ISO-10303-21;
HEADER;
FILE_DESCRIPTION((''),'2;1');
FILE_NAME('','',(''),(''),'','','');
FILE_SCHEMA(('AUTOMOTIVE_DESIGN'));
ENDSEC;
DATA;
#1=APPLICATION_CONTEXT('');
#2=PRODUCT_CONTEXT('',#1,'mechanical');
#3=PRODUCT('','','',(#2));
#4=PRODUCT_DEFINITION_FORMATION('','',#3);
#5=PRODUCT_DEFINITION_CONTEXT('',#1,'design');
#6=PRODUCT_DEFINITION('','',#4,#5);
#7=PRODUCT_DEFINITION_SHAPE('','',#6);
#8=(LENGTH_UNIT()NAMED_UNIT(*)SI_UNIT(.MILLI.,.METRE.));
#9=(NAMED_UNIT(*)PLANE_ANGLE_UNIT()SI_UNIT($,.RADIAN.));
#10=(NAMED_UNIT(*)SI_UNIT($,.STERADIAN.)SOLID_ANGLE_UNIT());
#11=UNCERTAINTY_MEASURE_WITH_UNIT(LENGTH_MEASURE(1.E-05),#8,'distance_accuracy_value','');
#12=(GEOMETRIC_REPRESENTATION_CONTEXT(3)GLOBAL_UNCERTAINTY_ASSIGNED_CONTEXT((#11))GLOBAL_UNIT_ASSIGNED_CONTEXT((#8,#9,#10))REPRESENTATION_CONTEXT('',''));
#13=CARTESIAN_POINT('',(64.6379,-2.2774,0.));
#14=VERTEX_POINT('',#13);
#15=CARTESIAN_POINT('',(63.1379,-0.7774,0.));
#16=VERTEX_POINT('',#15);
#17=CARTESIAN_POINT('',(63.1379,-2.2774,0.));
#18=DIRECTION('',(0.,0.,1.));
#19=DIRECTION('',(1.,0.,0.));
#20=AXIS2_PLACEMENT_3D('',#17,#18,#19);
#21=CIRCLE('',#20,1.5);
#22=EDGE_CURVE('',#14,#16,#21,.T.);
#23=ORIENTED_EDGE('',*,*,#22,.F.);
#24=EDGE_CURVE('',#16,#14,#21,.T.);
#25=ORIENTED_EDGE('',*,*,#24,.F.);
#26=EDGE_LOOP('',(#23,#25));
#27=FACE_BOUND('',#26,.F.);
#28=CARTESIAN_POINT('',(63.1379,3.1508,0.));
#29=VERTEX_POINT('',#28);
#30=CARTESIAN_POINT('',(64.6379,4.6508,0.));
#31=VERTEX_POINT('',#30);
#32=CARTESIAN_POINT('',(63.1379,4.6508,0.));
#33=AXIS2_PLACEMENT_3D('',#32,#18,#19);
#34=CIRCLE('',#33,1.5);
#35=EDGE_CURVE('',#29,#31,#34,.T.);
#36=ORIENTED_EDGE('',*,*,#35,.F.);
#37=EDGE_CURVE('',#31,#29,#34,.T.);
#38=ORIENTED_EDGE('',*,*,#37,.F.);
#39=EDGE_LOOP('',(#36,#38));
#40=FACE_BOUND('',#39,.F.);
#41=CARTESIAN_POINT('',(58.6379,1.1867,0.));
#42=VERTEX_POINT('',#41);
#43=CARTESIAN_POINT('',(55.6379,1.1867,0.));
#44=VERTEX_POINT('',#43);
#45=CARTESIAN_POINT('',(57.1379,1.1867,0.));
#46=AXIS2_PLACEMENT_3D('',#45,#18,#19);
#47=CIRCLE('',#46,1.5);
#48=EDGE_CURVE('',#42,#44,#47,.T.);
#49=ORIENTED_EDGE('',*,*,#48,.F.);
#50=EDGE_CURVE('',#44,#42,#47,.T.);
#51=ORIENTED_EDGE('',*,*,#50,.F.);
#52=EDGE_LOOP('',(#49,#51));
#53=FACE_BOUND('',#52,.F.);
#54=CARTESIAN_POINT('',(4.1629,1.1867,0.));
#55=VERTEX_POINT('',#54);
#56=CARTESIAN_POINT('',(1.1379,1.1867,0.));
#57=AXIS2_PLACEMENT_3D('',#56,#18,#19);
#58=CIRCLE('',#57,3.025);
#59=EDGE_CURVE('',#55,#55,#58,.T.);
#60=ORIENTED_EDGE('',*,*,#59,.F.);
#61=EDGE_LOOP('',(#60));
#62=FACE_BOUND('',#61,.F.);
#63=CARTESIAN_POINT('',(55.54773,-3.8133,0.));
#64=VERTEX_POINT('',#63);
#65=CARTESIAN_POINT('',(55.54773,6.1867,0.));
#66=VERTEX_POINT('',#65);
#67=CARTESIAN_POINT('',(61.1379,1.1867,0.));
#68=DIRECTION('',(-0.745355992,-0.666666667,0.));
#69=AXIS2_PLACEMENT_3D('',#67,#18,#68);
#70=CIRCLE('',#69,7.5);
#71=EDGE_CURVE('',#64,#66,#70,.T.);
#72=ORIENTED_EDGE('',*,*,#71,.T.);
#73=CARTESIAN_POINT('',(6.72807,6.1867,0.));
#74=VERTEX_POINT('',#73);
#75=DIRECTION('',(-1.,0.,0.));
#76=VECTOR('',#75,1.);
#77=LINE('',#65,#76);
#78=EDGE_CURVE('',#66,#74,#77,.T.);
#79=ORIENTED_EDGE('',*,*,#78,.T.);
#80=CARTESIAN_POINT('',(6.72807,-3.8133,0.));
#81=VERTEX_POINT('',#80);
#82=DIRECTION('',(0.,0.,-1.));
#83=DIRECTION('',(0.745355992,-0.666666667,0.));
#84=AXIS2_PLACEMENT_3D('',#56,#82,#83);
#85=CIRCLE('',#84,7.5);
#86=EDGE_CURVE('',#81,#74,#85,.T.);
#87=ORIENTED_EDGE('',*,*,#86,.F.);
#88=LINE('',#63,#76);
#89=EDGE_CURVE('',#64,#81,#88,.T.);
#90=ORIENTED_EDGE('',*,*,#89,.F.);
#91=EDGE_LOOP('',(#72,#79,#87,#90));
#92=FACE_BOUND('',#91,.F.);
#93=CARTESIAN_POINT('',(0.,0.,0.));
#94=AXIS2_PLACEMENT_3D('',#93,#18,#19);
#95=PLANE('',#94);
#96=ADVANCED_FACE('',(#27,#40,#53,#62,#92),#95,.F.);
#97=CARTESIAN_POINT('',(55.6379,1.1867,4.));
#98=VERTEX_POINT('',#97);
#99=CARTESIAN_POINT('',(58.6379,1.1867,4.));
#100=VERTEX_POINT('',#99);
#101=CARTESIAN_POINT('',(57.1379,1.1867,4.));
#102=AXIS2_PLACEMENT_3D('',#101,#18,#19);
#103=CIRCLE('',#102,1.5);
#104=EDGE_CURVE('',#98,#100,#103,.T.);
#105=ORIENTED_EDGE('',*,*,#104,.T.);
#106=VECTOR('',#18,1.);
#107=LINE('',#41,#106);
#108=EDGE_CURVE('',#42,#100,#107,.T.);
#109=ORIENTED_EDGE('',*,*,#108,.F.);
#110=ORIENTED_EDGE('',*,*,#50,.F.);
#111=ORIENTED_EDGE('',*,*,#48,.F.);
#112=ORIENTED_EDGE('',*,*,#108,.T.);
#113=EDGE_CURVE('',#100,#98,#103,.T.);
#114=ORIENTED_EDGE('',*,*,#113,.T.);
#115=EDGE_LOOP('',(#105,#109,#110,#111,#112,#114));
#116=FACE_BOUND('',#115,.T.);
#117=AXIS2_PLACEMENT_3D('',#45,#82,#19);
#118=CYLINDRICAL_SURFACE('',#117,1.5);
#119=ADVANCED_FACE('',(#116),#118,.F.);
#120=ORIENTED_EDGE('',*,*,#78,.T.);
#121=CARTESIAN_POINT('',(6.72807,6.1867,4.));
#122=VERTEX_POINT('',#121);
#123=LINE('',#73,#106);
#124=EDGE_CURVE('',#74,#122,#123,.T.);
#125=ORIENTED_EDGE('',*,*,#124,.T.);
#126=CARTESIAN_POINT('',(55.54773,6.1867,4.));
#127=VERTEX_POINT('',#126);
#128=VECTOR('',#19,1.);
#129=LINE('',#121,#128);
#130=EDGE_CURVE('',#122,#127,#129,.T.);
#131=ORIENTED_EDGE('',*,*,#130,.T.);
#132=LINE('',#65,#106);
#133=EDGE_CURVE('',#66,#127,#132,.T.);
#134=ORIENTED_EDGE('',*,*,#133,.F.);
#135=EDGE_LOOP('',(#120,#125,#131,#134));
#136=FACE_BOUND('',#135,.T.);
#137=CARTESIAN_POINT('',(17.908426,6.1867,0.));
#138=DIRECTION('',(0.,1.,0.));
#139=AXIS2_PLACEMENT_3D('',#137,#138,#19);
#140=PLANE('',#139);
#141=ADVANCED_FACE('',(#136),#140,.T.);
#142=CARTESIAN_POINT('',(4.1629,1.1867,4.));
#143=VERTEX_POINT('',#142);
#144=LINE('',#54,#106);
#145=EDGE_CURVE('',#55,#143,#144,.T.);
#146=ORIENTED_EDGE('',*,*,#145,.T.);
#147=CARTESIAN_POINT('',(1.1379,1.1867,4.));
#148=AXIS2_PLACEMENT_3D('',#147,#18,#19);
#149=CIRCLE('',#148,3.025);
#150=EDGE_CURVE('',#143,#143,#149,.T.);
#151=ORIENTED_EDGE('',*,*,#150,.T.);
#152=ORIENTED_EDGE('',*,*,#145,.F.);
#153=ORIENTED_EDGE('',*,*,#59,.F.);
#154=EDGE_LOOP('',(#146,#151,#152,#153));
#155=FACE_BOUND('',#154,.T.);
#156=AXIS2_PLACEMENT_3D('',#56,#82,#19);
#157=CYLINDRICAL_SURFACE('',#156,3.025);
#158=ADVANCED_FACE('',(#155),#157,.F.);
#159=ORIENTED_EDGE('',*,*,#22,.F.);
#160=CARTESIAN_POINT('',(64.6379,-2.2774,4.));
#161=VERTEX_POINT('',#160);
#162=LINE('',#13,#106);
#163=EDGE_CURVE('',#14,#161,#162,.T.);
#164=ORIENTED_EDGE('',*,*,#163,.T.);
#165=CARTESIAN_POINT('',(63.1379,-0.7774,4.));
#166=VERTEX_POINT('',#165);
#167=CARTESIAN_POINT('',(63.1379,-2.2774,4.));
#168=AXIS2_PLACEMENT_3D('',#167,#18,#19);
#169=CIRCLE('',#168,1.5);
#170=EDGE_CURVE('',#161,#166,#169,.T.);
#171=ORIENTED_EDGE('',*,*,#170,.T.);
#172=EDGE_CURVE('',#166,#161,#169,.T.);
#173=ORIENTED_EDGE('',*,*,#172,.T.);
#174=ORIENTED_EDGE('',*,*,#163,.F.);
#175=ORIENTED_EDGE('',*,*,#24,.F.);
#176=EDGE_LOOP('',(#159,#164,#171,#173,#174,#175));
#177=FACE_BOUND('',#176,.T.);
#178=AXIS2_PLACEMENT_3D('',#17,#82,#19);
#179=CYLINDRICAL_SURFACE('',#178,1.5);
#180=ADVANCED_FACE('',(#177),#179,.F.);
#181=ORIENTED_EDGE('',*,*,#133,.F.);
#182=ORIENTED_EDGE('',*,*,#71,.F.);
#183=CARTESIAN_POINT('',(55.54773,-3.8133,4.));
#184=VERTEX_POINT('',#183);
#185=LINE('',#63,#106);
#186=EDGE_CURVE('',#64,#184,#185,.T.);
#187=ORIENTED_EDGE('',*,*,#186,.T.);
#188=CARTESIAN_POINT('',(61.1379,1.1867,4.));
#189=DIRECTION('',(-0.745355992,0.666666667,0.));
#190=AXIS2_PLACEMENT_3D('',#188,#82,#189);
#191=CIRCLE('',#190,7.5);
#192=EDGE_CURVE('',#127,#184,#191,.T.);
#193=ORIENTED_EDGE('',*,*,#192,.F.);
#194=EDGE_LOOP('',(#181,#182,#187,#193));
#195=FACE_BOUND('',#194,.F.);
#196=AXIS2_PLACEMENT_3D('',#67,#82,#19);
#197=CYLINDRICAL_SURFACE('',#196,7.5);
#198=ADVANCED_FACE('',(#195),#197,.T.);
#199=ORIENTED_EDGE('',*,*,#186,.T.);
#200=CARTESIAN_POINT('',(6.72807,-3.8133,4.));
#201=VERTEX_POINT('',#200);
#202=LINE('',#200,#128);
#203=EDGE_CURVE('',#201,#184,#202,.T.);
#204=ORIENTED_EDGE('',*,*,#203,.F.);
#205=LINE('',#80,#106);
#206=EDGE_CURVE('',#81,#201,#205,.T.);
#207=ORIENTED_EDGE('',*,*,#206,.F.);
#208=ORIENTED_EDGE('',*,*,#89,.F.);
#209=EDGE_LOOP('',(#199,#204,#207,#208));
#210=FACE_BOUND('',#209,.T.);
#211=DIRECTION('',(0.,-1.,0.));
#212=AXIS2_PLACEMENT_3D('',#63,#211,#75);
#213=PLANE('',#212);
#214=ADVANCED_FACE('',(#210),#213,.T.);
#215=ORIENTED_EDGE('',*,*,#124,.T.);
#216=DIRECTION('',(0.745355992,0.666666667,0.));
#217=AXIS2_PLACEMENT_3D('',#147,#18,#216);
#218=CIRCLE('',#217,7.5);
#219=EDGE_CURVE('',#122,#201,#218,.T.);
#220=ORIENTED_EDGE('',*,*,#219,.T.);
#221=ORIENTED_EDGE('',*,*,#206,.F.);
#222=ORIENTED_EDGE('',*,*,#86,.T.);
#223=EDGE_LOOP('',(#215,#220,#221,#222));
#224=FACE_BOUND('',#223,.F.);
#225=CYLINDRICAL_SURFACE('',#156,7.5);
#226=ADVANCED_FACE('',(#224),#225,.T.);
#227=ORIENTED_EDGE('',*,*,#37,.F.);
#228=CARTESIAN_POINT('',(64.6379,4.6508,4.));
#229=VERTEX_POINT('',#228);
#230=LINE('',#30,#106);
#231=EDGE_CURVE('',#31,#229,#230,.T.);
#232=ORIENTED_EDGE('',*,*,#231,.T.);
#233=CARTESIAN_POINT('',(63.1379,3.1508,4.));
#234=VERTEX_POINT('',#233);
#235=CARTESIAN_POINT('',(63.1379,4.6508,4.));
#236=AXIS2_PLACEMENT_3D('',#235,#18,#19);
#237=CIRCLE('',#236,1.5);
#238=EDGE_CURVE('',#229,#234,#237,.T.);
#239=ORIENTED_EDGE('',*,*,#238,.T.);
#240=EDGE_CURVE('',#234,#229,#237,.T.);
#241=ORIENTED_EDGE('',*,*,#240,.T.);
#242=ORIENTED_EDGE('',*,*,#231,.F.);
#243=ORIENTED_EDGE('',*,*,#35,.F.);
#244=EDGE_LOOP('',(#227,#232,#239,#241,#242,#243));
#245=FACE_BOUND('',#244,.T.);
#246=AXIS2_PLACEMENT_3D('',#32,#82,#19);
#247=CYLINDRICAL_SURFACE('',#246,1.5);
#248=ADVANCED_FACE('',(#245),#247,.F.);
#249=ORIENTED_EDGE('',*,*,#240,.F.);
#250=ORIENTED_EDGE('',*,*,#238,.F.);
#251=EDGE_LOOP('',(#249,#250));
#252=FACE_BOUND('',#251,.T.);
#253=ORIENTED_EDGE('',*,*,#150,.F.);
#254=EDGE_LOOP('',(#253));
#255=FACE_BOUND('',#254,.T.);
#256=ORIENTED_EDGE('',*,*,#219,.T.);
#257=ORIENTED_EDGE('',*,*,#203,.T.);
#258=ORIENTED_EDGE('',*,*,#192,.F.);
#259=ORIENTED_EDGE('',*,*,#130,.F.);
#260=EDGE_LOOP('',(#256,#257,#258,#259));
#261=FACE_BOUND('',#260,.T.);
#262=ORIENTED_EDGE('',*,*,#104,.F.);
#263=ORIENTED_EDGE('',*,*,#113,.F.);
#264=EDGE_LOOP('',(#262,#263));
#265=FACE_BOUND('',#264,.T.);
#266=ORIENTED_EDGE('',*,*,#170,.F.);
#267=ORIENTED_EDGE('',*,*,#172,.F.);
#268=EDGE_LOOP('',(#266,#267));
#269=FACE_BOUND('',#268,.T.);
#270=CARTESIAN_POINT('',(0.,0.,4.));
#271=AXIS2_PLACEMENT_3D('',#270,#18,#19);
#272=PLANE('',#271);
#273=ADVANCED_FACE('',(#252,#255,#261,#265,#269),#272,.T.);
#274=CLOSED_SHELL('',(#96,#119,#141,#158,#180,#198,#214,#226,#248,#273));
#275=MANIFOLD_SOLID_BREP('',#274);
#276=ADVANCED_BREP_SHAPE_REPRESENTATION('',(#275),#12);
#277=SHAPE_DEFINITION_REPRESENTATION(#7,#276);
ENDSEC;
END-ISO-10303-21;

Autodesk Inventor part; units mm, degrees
ref_plane "YZ Plane" through (0, 0, 0) normal (1, 0, 0) x (0, 1, 0)
ref_plane "XZ Plane" through (0, 0, 0) normal (0, 1, 0) x (-1, 0, 0)
ref_plane "XY Plane" through (0, 0, 0) normal (0, 0, 1) x (1, 0, 0)
sketch "スケッチ1" plane through (0, 0, 0) normal (0, 0, 1) x (1, 0, 0)
  arc A0 (2.3922, 20.2558) -> (2.3331, 19.9425) centre (4.2654, 19.7401) ccw
  arc A1 (2.759, 21.2362) -> (2.3922, 20.2558) centre (7.5685, 18.8782) ccw
  arc A2 (3.8916, 23.0137) -> (2.759, 21.2362) centre (11.1286, 17.1527) ccw
  arc A3 (-0.0572, 19.9425) -> (-0.1163, 20.2558) centre (-1.9895, 19.7401) ccw
  arc A4 (-0.1163, 20.2558) -> (-0.4831, 21.2362) centre (-5.2926, 18.8782) ccw
  arc A5 (-0.4831, 21.2362) -> (-1.6157, 23.0137) centre (-8.8527, 17.1527) ccw
  arc A6 (2.2508, 18.6513) -> (0.0251, 18.6513) centre (1.1379, 1.1867) ccw
  arc A7 (-1.6157, 23.0137) -> (-2.9881, 22.7963) centre (1.1379, 1.1867) ccw
  line L0 (2.2508, 18.6513) -> (2.3331, 19.9425)
  line L1 (0.0251, 18.6513) -> (-0.0572, 19.9425)
  line L2 (-5.3173, 17.4526) -> (-5.7946, 18.6552)
  arc A8 (-5.7946, 18.6552) -> (-5.9476, 18.9349) centre (-7.5698, 17.8656) ccw
  arc A9 (-5.9476, 18.9349) -> (-6.5994, 19.754) centre (-10.4448, 16.0252) ccw
  arc A10 (-6.5994, 19.754) -> (-8.2258, 21.0945) centre (-13.2975, 13.284) ccw
  arc A11 (-8.2258, 21.0945) -> (-9.4639, 20.4637) centre (1.1379, 1.1867) ccw
  arc A12 (-3.2005, 18.1404) -> (-5.3173, 17.4526) centre (1.1379, 1.1867) ccw
  line L3 (-3.2005, 18.1404) -> (-3.5213, 19.3939)
  arc A13 (-3.5619, 19.71) -> (-3.5213, 19.3939) centre (-1.621, 19.7985) ccw
  arc A14 (-3.516, 20.7559) -> (-3.5619, 19.71) centre (1.7868, 19.9995) ccw
  arc A15 (-2.9881, 22.7963) -> (-3.516, 20.7559) centre (5.7058, 19.4586) ccw
  line L4 (-10.0278, 14.6617) -> (-10.8533, 15.658)
  arc A16 (-10.8533, 15.658) -> (-11.0853, 15.8767) centre (-12.2977, 14.3585) ccw
  arc A17 (-11.0853, 15.8767) -> (-11.9583, 16.4543) centre (-14.4633, 11.7197) ccw
  arc A18 (-11.9583, 16.4543) -> (-13.9194, 17.2266) centre (-16.3293, 8.2311) ccw
  arc A19 (-13.9194, 17.2266) -> (-14.9019, 16.244) centre (1.1379, 1.1867) ccw
  arc A20 (-8.2272, 15.97) -> (-10.0278, 14.6617) centre (1.1379, 1.1867) ccw
  line L5 (-8.2272, 15.97) -> (-8.9196, 17.063)
  arc A21 (-9.0559, 17.3511) -> (-8.9196, 17.063) centre (-7.2373, 18.035) ccw
  arc A22 (-9.3354, 18.3599) -> (-9.0559, 17.3511) centre (-4.0584, 19.2792) ccw
  arc A23 (-9.4639, 20.4637) -> (-9.3354, 18.3599) centre (-0.164, 19.9759) ccw
  line L6 (-13.6453, 10.5518) -> (-14.7383, 11.2442)
  arc A24 (-14.7383, 11.2442) -> (-15.0265, 11.3805) centre (-15.7104, 9.562) ccw
  arc A25 (-15.0265, 11.3805) -> (-16.0353, 11.6601) centre (-16.9545, 6.3831) ccw
  arc A26 (-16.0353, 11.6601) -> (-18.139, 11.7886) centre (-17.6512, 2.4887) ccw
  arc A27 (-18.139, 11.7886) -> (-18.7698, 10.5505) centre (1.1379, 1.1867) ccw
  arc A28 (-12.3371, 12.3525) -> (-13.6453, 10.5518) centre (1.1379, 1.1867) ccw
  line L7 (-12.3371, 12.3525) -> (-13.3333, 13.178)
  arc A29 (-13.552, 13.4099) -> (-13.3333, 13.178) centre (-12.0338, 14.6223) ccw
  arc A30 (-14.1296, 14.283) -> (-13.552, 13.4099) centre (-9.395, 16.7879) ccw
  arc A31 (-14.9019, 16.244) -> (-14.1296, 14.283) centre (-5.9065, 18.6539) ccw
  line L8 (-15.8158, 5.5252) -> (-17.0692, 5.8459)
  arc A32 (-17.0692, 5.8459) -> (-17.3854, 5.8865) centre (-17.4739, 3.9456) ccw
  arc A33 (-17.3854, 5.8865) -> (-18.4312, 5.8407) centre (-17.6748, 0.5379) ccw
  arc A34 (-18.4312, 5.8407) -> (-20.4717, 5.3128) centre (-17.1339, -3.3812) ccw
  arc A35 (-20.4717, 5.3128) -> (-20.6891, 3.9404) centre (1.1379, 1.1867) ccw
  arc A36 (-15.128, 7.642) -> (-15.8158, 5.5252) centre (1.1379, 1.1867) ccw
  line L9 (-15.128, 7.642) -> (-16.3306, 8.1192)
  arc A37 (-16.6102, 8.2722) -> (-16.3306, 8.1192) centre (-15.541, 9.8944) ccw
  arc A38 (-17.4293, 8.924) -> (-16.6102, 8.2722) centre (-13.7005, 12.7695) ccw
  arc A39 (-18.7698, 10.5505) -> (-17.4293, 8.924) centre (-10.9594, 15.6222) ccw
  line L10 (-16.3266, 0.0739) -> (-17.6179, -0.0084)
  arc A40 (-17.6179, -0.0084) -> (-17.9311, -0.0675) centre (-17.4155, -1.9407) ccw
  arc A41 (-17.9311, -0.0675) -> (-18.9116, -0.4343) centre (-16.5535, -5.2438) ccw
  arc A42 (-18.9116, -0.4343) -> (-20.6891, -1.5669) centre (-14.8281, -8.8039) ccw
  arc A43 (-20.6891, -1.5669) -> (-20.4717, -2.9393) centre (1.1379, 1.1867) ccw
  arc A44 (-16.3266, 2.2996) -> (-16.3266, 0.0739) centre (1.1379, 1.1867) ccw
  line L11 (-16.3266, 2.2996) -> (-17.6179, 2.3819)
  arc A45 (-17.9311, 2.441) -> (-17.6179, 2.3819) centre (-17.4155, 4.3142) ccw
  arc A46 (-18.9116, 2.8078) -> (-17.9311, 2.441) centre (-16.5535, 7.6173) ccw
  arc A47 (-20.6891, 3.9404) -> (-18.9116, 2.8078) centre (-14.8281, 11.1774) ccw
  line L12 (-15.128, -5.2685) -> (-16.3306, -5.7458)
  arc A48 (-16.3306, -5.7458) -> (-16.6102, -5.8988) centre (-15.541, -7.521) ccw
  arc A49 (-16.6102, -5.8988) -> (-17.4293, -6.5506) centre (-13.7005, -10.396) ccw
  arc A50 (-17.4293, -6.5506) -> (-18.7698, -8.177) centre (-10.9594, -13.2487) ccw
  arc A51 (-18.7698, -8.177) -> (-18.139, -9.4151) centre (1.1379, 1.1867) ccw
  arc A52 (-15.8158, -3.1517) -> (-15.128, -5.2685) centre (1.1379, 1.1867) ccw
  line L13 (-15.8158, -3.1517) -> (-17.0692, -3.4725)
  arc A53 (-17.3854, -3.5131) -> (-17.0692, -3.4725) centre (-17.4739, -1.5722) ccw
  arc A54 (-18.4312, -3.4672) -> (-17.3854, -3.5131) centre (-17.6748, 1.8356) ccw
  arc A55 (-20.4717, -2.9393) -> (-18.4312, -3.4672) centre (-17.1339, 5.7546) ccw
  line L14 (-12.3371, -9.979) -> (-13.3333, -10.8046)
  arc A56 (-13.3333, -10.8046) -> (-13.552, -11.0365) centre (-12.0338, -12.2489) ccw
  arc A57 (-13.552, -11.0365) -> (-14.1296, -11.9095) centre (-9.395, -14.4145) ccw
  arc A58 (-14.1296, -11.9095) -> (-14.9019, -13.8706) centre (-5.9065, -16.2805) ccw
  arc A59 (-14.9019, -13.8706) -> (-13.9194, -14.8531) centre (1.1379, 1.1867) ccw
  arc A60 (-13.6453, -8.1784) -> (-12.3371, -9.979) centre (1.1379, 1.1867) ccw
  line L15 (-13.6453, -8.1784) -> (-14.7383, -8.8708)
  arc A61 (-15.0265, -9.0071) -> (-14.7383, -8.8708) centre (-15.7104, -7.1885) ccw
  arc A62 (-16.0353, -9.2866) -> (-15.0265, -9.0071) centre (-16.9545, -4.0097) ccw
  arc A63 (-18.139, -9.4151) -> (-16.0353, -9.2866) centre (-17.6512, -0.1153) ccw
  line L16 (-8.2272, -13.5965) -> (-8.9196, -14.6895)
  arc A64 (-8.9196, -14.6895) -> (-9.0559, -14.9777) centre (-7.2373, -15.6616) ccw
  arc A65 (-9.0559, -14.9777) -> (-9.3354, -15.9865) centre (-4.0584, -16.9058) ccw
  arc A66 (-9.3354, -15.9865) -> (-9.4639, -18.0902) centre (-0.164, -17.6024) ccw
  arc A67 (-9.4639, -18.0902) -> (-8.2258, -18.7211) centre (1.1379, 1.1867) ccw
  arc A68 (-10.0278, -12.2883) -> (-8.2272, -13.5965) centre (1.1379, 1.1867) ccw
  line L17 (-10.0278, -12.2883) -> (-10.8533, -13.2846)
  arc A69 (-11.0853, -13.5032) -> (-10.8533, -13.2846) centre (-12.2977, -11.985) ccw
  arc A70 (-11.9583, -14.0808) -> (-11.0853, -13.5032) centre (-14.4633, -9.3462) ccw
  arc A71 (-13.9194, -14.8531) -> (-11.9583, -14.0808) centre (-16.3293, -5.8577) ccw
  line L18 (-3.2005, -15.767) -> (-3.5213, -17.0204)
  arc A72 (-3.5213, -17.0204) -> (-3.5619, -17.3366) centre (-1.621, -17.4251) ccw
  arc A73 (-3.5619, -17.3366) -> (-3.516, -18.3824) centre (1.7868, -17.626) ccw
  arc A74 (-3.516, -18.3824) -> (-2.9881, -20.4229) centre (5.7058, -17.0851) ccw
  arc A75 (-2.9881, -20.4229) -> (-1.6157, -20.6403) centre (1.1379, 1.1867) ccw
  arc A76 (-5.3173, -15.0792) -> (-3.2005, -15.767) centre (1.1379, 1.1867) ccw
  line L19 (-5.3173, -15.0792) -> (-5.7946, -16.2818)
  arc A77 (-5.9476, -16.5614) -> (-5.7946, -16.2818) centre (-7.5698, -15.4922) ccw
  arc A78 (-6.5994, -17.3806) -> (-5.9476, -16.5614) centre (-10.4448, -13.6517) ccw
  arc A79 (-8.2258, -18.7211) -> (-6.5994, -17.3806) centre (-13.2975, -10.9106) ccw
  line L20 (2.2508, -16.2779) -> (2.3331, -17.5691)
  arc A80 (2.3331, -17.5691) -> (2.3922, -17.8823) centre (4.2654, -17.3667) ccw
  arc A81 (2.3922, -17.8823) -> (2.759, -18.8628) centre (7.5685, -16.5048) ccw
  arc A82 (2.759, -18.8628) -> (3.8916, -20.6403) centre (11.1286, -14.7793) ccw
  arc A83 (3.8916, -20.6403) -> (5.264, -20.4229) centre (1.1379, 1.1867) ccw
  arc A84 (0.0251, -16.2779) -> (2.2508, -16.2779) centre (1.1379, 1.1867) ccw
  line L21 (0.0251, -16.2779) -> (-0.0572, -17.5691)
  arc A85 (-0.1163, -17.8823) -> (-0.0572, -17.5691) centre (-1.9895, -17.3667) ccw
  arc A86 (-0.4831, -18.8628) -> (-0.1163, -17.8823) centre (-5.2926, -16.5048) ccw
  arc A87 (-1.6157, -20.6403) -> (-0.4831, -18.8628) centre (-8.8527, -14.7793) ccw
  line L22 (7.5932, -15.0792) -> (8.0705, -16.2818)
  arc A88 (8.0705, -16.2818) -> (8.2235, -16.5614) centre (9.8457, -15.4922) ccw
  arc A89 (8.2235, -16.5614) -> (8.8753, -17.3806) centre (12.7207, -13.6517) ccw
  arc A90 (8.8753, -17.3806) -> (10.5017, -18.7211) centre (15.5734, -10.9106) ccw
  arc A91 (10.5017, -18.7211) -> (11.7398, -18.0902) centre (1.1379, 1.1867) ccw
  arc A92 (5.4764, -15.767) -> (7.5932, -15.0792) centre (1.1379, 1.1867) ccw
  line L23 (5.4764, -15.767) -> (5.7971, -17.0204)
  arc A93 (5.8377, -17.3366) -> (5.7971, -17.0204) centre (3.8969, -17.4251) ccw
  arc A94 (5.7919, -18.3824) -> (5.8377, -17.3366) centre (0.4891, -17.626) ccw
  arc A95 (5.264, -20.4229) -> (5.7919, -18.3824) centre (-3.43, -17.0851) ccw
  line L24 (12.3037, -12.2883) -> (13.1292, -13.2846)
  arc A96 (13.1292, -13.2846) -> (13.3611, -13.5032) centre (14.5735, -11.985) ccw
  arc A97 (13.3611, -13.5032) -> (14.2342, -14.0808) centre (16.7391, -9.3462) ccw
  arc A98 (14.2342, -14.0808) -> (16.1953, -14.8531) centre (18.6051, -5.8577) ccw
  arc A99 (16.1953, -14.8531) -> (17.1778, -13.8706) centre (1.1379, 1.1867) ccw
  arc A100 (10.503, -13.5965) -> (12.3037, -12.2883) centre (1.1379, 1.1867) ccw
  line L25 (10.503, -13.5965) -> (11.1954, -14.6895)
  arc A101 (11.3317, -14.9777) -> (11.1954, -14.6895) centre (9.5132, -15.6616) ccw
  arc A102 (11.6113, -15.9865) -> (11.3317, -14.9777) centre (6.3343, -16.9058) ccw
  arc A103 (11.7398, -18.0902) -> (11.6113, -15.9865) centre (2.4399, -17.6024) ccw
  line L26 (15.9212, -8.1784) -> (17.0142, -8.8708)
  arc A104 (17.0142, -8.8708) -> (17.3023, -9.0071) centre (17.9862, -7.1885) ccw
  arc A105 (17.3023, -9.0071) -> (18.3111, -9.2866) centre (19.2304, -4.0097) ccw
  arc A106 (18.3111, -9.2866) -> (20.4149, -9.4151) centre (19.9271, -0.1153) ccw
  arc A107 (20.4149, -9.4151) -> (21.0457, -8.177) centre (1.1379, 1.1867) ccw
  arc A108 (14.6129, -9.979) -> (15.9212, -8.1784) centre (1.1379, 1.1867) ccw
  line L27 (14.6129, -9.979) -> (15.6092, -10.8046)
  arc A109 (15.8279, -11.0365) -> (15.6092, -10.8046) centre (14.3097, -12.2489) ccw
  arc A110 (16.4055, -11.9095) -> (15.8279, -11.0365) centre (11.6709, -14.4145) ccw
  arc A111 (17.1778, -13.8706) -> (16.4055, -11.9095) centre (8.1824, -16.2805) ccw
  line L28 (18.0916, -3.1517) -> (19.3451, -3.4725)
  arc A112 (19.3451, -3.4725) -> (19.6613, -3.5131) centre (19.7497, -1.5722) ccw
  arc A113 (19.6613, -3.5131) -> (20.7071, -3.4672) centre (19.9507, 1.8356) ccw
  arc A114 (20.7071, -3.4672) -> (22.7476, -2.9393) centre (19.4098, 5.7546) ccw
  arc A115 (22.7476, -2.9393) -> (22.9649, -1.5669) centre (1.1379, 1.1867) ccw
  arc A116 (17.4038, -5.2685) -> (18.0916, -3.1517) centre (1.1379, 1.1867) ccw
  line L29 (17.4038, -5.2685) -> (18.6065, -5.7458)
  arc A117 (18.8861, -5.8988) -> (18.6065, -5.7458) centre (17.8168, -7.521) ccw
  arc A118 (19.7052, -6.5506) -> (18.8861, -5.8988) centre (15.9764, -10.396) ccw
  arc A119 (21.0457, -8.177) -> (19.7052, -6.5506) centre (13.2352, -13.2487) ccw
  line L30 (18.6025, 2.2996) -> (19.8937, 2.3819)
  arc A120 (19.8937, 2.3819) -> (20.207, 2.441) centre (19.6914, 4.3142) ccw
  arc A121 (20.207, 2.441) -> (21.1874, 2.8078) centre (18.8294, 7.6173) ccw
  arc A122 (21.1874, 2.8078) -> (22.9649, 3.9404) centre (17.104, 11.1774) ccw
  arc A123 (22.9649, 3.9404) -> (22.7476, 5.3128) centre (1.1379, 1.1867) ccw
  arc A124 (18.6025, 0.0739) -> (18.6025, 2.2996) centre (1.1379, 1.1867) ccw
  line L31 (18.6025, 0.0739) -> (19.8937, -0.0084)
  arc A125 (20.207, -0.0675) -> (19.8937, -0.0084) centre (19.6914, -1.9407) ccw
  arc A126 (21.1874, -0.4343) -> (20.207, -0.0675) centre (18.8294, -5.2438) ccw
  arc A127 (22.9649, -1.5669) -> (21.1874, -0.4343) centre (17.104, -8.8039) ccw
  line L32 (17.4038, 7.642) -> (18.6065, 8.1192)
  arc A128 (18.6065, 8.1192) -> (18.8861, 8.2722) centre (17.8168, 9.8944) ccw
  arc A129 (18.8861, 8.2722) -> (19.7052, 8.924) centre (15.9764, 12.7695) ccw
  arc A130 (19.7052, 8.924) -> (21.0457, 10.5505) centre (13.2352, 15.6222) ccw
  arc A131 (21.0457, 10.5505) -> (20.4149, 11.7886) centre (1.1379, 1.1867) ccw
  arc A132 (18.0916, 5.5252) -> (17.4038, 7.642) centre (1.1379, 1.1867) ccw
  line L33 (18.0916, 5.5252) -> (19.3451, 5.8459)
  arc A133 (19.6613, 5.8865) -> (19.3451, 5.8459) centre (19.7497, 3.9456) ccw
  arc A134 (20.7071, 5.8407) -> (19.6613, 5.8865) centre (19.9507, 0.5379) ccw
  arc A135 (22.7476, 5.3128) -> (20.7071, 5.8407) centre (19.4098, -3.3812) ccw
  line L34 (14.6129, 12.3525) -> (15.6092, 13.178)
  arc A136 (15.6092, 13.178) -> (15.8279, 13.4099) centre (14.3097, 14.6223) ccw
  arc A137 (15.8279, 13.4099) -> (16.4055, 14.283) centre (11.6709, 16.7879) ccw
  arc A138 (16.4055, 14.283) -> (17.1778, 16.244) centre (8.1824, 18.6539) ccw
  arc A139 (17.1778, 16.244) -> (16.1953, 17.2266) centre (1.1379, 1.1867) ccw
  arc A140 (15.9212, 10.5518) -> (14.6129, 12.3525) centre (1.1379, 1.1867) ccw
  line L35 (15.9212, 10.5518) -> (17.0142, 11.2442)
  arc A141 (17.3023, 11.3805) -> (17.0142, 11.2442) centre (17.9862, 9.562) ccw
  arc A142 (18.3111, 11.6601) -> (17.3023, 11.3805) centre (19.2304, 6.3831) ccw
  arc A143 (20.4149, 11.7886) -> (18.3111, 11.6601) centre (19.9271, 2.4887) ccw
  line L36 (10.503, 15.97) -> (11.1954, 17.063)
  arc A144 (11.1954, 17.063) -> (11.3317, 17.3511) centre (9.5132, 18.035) ccw
  arc A145 (11.3317, 17.3511) -> (11.6113, 18.3599) centre (6.3343, 19.2792) ccw
  arc A146 (11.6113, 18.3599) -> (11.7398, 20.4637) centre (2.4399, 19.9759) ccw
  arc A147 (11.7398, 20.4637) -> (10.5017, 21.0945) centre (1.1379, 1.1867) ccw
  arc A148 (12.3037, 14.6617) -> (10.503, 15.97) centre (1.1379, 1.1867) ccw
  line L37 (12.3037, 14.6617) -> (13.1292, 15.658)
  arc A149 (13.3611, 15.8767) -> (13.1292, 15.658) centre (14.5735, 14.3585) ccw
  arc A150 (14.2342, 16.4543) -> (13.3611, 15.8767) centre (16.7391, 11.7197) ccw
  arc A151 (16.1953, 17.2266) -> (14.2342, 16.4543) centre (18.6051, 8.2311) ccw
  line L38 (5.4764, 18.1404) -> (5.7971, 19.3939)
  arc A152 (5.7971, 19.3939) -> (5.8377, 19.71) centre (3.8969, 19.7985) ccw
  arc A153 (5.8377, 19.71) -> (5.7919, 20.7559) centre (0.4891, 19.9995) ccw
  arc A154 (5.7919, 20.7559) -> (5.264, 22.7963) centre (-3.43, 19.4586) ccw
  arc A155 (5.264, 22.7963) -> (3.8916, 23.0137) centre (1.1379, 1.1867) ccw
  arc A156 (7.5932, 17.4526) -> (5.4764, 18.1404) centre (1.1379, 1.1867) ccw
  line L39 (7.5932, 17.4526) -> (8.0705, 18.6552)
  arc A157 (8.2235, 18.9349) -> (8.0705, 18.6552) centre (9.8457, 17.8656) ccw
  arc A158 (8.8753, 19.754) -> (8.2235, 18.9349) centre (12.7207, 16.0252) ccw
  arc A159 (10.5017, 21.0945) -> (8.8753, 19.754) centre (15.5734, 13.284) ccw
  circle A160 centre (1.1379, 1.1867) radius 3.025
  line L40 (1.1379, 1.1867) -> (61.1379, 1.1867)
  line L41 (66.1379, -3.8133) -> (-5.7946, -3.8133)
  line L42 (-5.7946, -3.8133) -> (-5.7946, 6.1867)
  line L43 (-5.7946, 6.1867) -> (66.1379, 6.1867)
  line L44 (66.1379, 6.1867) -> (66.1379, -3.8133)
  circle A161 centre (61.1379, 1.1867) radius 7.5
  circle A162 centre (1.1379, 1.1867) radius 7.5
  circle A163 centre (57.1379, 1.1867) radius 1.5
  circle A164 centre (63.1379, -2.2774) radius 1.5
  circle A165 centre (63.1379, 4.6508) radius 1.5
  line L45 (63.1379, -2.2774) -> (63.1379, 4.6508)
  point P0 (0, 0)
  point P1 (-10.0278, -12.2883)
  point P2 (-8.2272, -13.5965)
  point P3 (-8.9196, -14.6895)
  point P4 (-9.0559, -14.9777)
  point P5 (-9.3354, -15.9865)
  point P6 (-9.4639, -18.0902)
  point P7 (-8.2258, -18.7211)
  point P8 (-5.9476, -16.5614)
  point P9 (-5.7946, -16.2818)
  point P10 (-5.3173, -15.0792)
  point P11 (-3.2005, -15.767)
  point P12 (-3.5213, -17.0204)
  point P13 (-3.5619, -17.3366)
  point P14 (-3.516, -18.3824)
  point P15 (-2.9881, -20.4229)
  point P16 (-1.6157, -20.6403)
  point P17 (-0.4831, -18.8628)
  point P18 (-0.1163, -17.8823)
  point P19 (-0.0572, -17.5691)
  point P20 (0.0251, -16.2779)
  point P21 (2.2508, -16.2779)
  point P22 (2.3331, -17.5691)
  point P23 (2.3922, -17.8823)
  point P24 (2.759, -18.8628)
  point P25 (3.8916, -20.6403)
  point P26 (5.264, -20.4229)
  point P27 (5.7919, -18.3824)
  point P28 (5.8377, -17.3366)
  point P29 (5.4764, -15.767)
  point P30 (7.5932, -15.0792)
  point P31 (8.2235, -16.5614)
  point P32 (8.8753, -17.3806)
  point P33 (10.5017, -18.7211)
  point P34 (11.7398, -18.0902)
  point P35 (11.6113, -15.9865)
  point P36 (11.3317, -14.9777)
  point P37 (10.503, -13.5965)
  point P38 (13.3611, -13.5032)
  point P39 (14.2342, -14.0808)
  point P40 (16.1953, -14.8531)
  point P41 (17.1778, -13.8706)
  point P42 (16.4055, -11.9095)
  point P43 (15.8279, -11.0365)
  point P44 (14.6129, -9.979)
  point P45 (17.3023, -9.0071)
  point P46 (18.3111, -9.2866)
  point P47 (20.4149, -9.4151)
  point P48 (21.0457, -8.177)
  point P49 (19.7052, -6.5506)
  point P50 (18.8861, -5.8988)
  point P51 (17.4038, -5.2685)
  point P52 (19.6613, -3.5131)
  point P53 (20.7071, -3.4672)
  point P54 (22.7476, -2.9393)
  point P55 (22.9649, -1.5669)
  point P56 (21.1874, -0.4343)
  point P57 (20.207, -0.0675)
  point P58 (18.6025, 0.0739)
  point P59 (20.207, 2.441)
  point P60 (21.1874, 2.8078)
  point P61 (22.9649, 3.9404)
  point P62 (20.7071, 5.8407)
  point P63 (19.6613, 5.8865)
  point P64 (19.3451, 5.8459)
  point P65 (17.4038, 7.642)
  point P66 (18.6065, 8.1192)
  point P67 (18.8861, 8.2722)
  point P68 (19.7052, 8.924)
  point P69 (21.0457, 10.5505)
  point P70 (20.4149, 11.7886)
  point P71 (18.3111, 11.6601)
  point P72 (17.3023, 11.3805)
  point P73 (15.8279, 13.4099)
  point P74 (16.4055, 14.283)
  point P75 (17.1778, 16.244)
  point P76 (16.1953, 17.2266)
  point P77 (14.2342, 16.4543)
  point P78 (13.3611, 15.8767)
  point P79 (12.3037, 14.6617)
  point P80 (10.503, 15.97)
  point P81 (11.1954, 17.063)
  point P82 (11.3317, 17.3511)
  point P83 (11.6113, 18.3599)
  point P84 (11.7398, 20.4637)
  point P85 (10.5017, 21.0945)
  point P86 (8.8753, 19.754)
  point P87 (8.2235, 18.9349)
  point P88 (8.0705, 18.6552)
  point P89 (5.8377, 19.71)
  point P90 (5.7919, 20.7559)
  point P91 (5.264, 22.7963)
  point P92 (3.8916, 23.0137)
  point P93 (2.759, 21.2362)
  point P94 (2.3922, 20.2558)
  point P95 (-0.1163, 20.2558)
  point P96 (-0.4831, 21.2362)
  point P97 (-1.6157, 23.0137)
  point P98 (-2.9881, 22.7963)
  point P99 (-3.516, 20.7559)
  point P100 (-3.5619, 19.71)
  point P101 (-3.5213, 19.3939)
  point P102 (-3.2005, 18.1404)
  point P103 (-5.3173, 17.4526)
  point P104 (-5.7946, 18.6552)
  point P105 (-5.9476, 18.9349)
  point P106 (-6.5994, 19.754)
  point P107 (-8.2258, 21.0945)
  point P108 (-9.4639, 20.4637)
  point P109 (-9.3354, 18.3599)
  point P110 (-9.0559, 17.3511)
  point P111 (-8.9196, 17.063)
  point P112 (-10.0278, 14.6617)
  point P113 (-10.8533, 15.658)
  point P114 (-11.0853, 15.8767)
  point P115 (-11.9583, 16.4543)
  point P116 (-13.9194, 17.2266)
  point P117 (-14.9019, 16.244)
  point P118 (-14.1296, 14.283)
  point P119 (-13.552, 13.4099)
  point P120 (-14.7383, 11.2442)
  point P121 (-15.0265, 11.3805)
  point P122 (-16.0353, 11.6601)
  point P123 (-18.139, 11.7886)
  point P124 (-18.7698, 10.5505)
  point P125 (-17.4293, 8.924)
  point P126 (-16.6102, 8.2722)
  point P127 (-15.8158, 5.5252)
  point P128 (-17.0692, 5.8459)
  point P129 (-17.3854, 5.8865)
  point P130 (-18.4312, 5.8407)
  point P131 (-20.4717, 5.3128)
  point P132 (-20.6891, 3.9404)
  point P133 (-18.9116, 2.8078)
  point P134 (-17.9311, 2.441)
  point P135 (-17.6179, -0.0084)
  point P136 (-17.9311, -0.0675)
  point P137 (-18.9116, -0.4343)
  point P138 (-20.6891, -1.5669)
  point P139 (-18.4312, -3.4672)
  point P140 (-17.3854, -3.5131)
  point P141 (-15.8158, -3.1517)
  point P142 (-15.128, -5.2685)
  point P143 (-16.3306, -5.7458)
  point P144 (-16.6102, -5.8988)
  point P145 (-17.4293, -6.5506)
  point P146 (-18.7698, -8.177)
  point P147 (-18.139, -9.4151)
  point P148 (-16.0353, -9.2866)
  point P149 (-15.0265, -9.0071)
  point P150 (-14.7383, -8.8708)
  point P151 (-13.6453, -8.1784)
  point P152 (-12.3371, -9.979)
  point P153 (-13.3333, -10.8046)
  point P154 (-13.552, -11.0365)
  point P155 (-14.1296, -11.9095)
  point P156 (-14.9019, -13.8706)
  point P157 (-13.9194, -14.8531)
  point P158 (-11.9583, -14.0808)
  point P159 (-11.0853, -13.5032)
  point P160 (-10.8533, -13.2846)
  point P161 (17.9084, -3.8133)
  point P162 (17.9084, 6.1867)
  point P163 (55.5478, -3.8133)
  point P164 (55.5478, 6.1867)
  point P165 (6.7281, -3.8133)
  point P166 (6.7281, 6.1867)
  dimension "d2" = 360
  dimension "d4" = 6.05
  dimension "d7" = 60
  dimension "d9" = 15
  dimension "d10" = 15
  dimension "d11" = 3
  dimension "d12" = 4
  dimension "d15" = 360
extrude "押し出し1" add sketch "スケッチ1" along normal blind 4 contours L43 A161 L40 A124 L30 A120 A121 A122 A123 A135 A134 A133 L33 A132 | A132 L33 A133 A134 A135 A123 A122 A121 A120 L30 A124 L40 A162 L43 | A162 L41 L42 L43 | L43 A162 | A161 L41 L44 L43 | L43 L44 L41 A161 | L40 A124 L31 A125 A126 A127 A115 A114 A113 A112 L28 A116 L41 A162 | A161 L41 A116 L28 A112 A113 A114 A115 A127 A126 A125 L31 A124 L40 | L42 A162 | A162 L41
properties part number "駆動軸抑え" material "アルミニウム 7075"
